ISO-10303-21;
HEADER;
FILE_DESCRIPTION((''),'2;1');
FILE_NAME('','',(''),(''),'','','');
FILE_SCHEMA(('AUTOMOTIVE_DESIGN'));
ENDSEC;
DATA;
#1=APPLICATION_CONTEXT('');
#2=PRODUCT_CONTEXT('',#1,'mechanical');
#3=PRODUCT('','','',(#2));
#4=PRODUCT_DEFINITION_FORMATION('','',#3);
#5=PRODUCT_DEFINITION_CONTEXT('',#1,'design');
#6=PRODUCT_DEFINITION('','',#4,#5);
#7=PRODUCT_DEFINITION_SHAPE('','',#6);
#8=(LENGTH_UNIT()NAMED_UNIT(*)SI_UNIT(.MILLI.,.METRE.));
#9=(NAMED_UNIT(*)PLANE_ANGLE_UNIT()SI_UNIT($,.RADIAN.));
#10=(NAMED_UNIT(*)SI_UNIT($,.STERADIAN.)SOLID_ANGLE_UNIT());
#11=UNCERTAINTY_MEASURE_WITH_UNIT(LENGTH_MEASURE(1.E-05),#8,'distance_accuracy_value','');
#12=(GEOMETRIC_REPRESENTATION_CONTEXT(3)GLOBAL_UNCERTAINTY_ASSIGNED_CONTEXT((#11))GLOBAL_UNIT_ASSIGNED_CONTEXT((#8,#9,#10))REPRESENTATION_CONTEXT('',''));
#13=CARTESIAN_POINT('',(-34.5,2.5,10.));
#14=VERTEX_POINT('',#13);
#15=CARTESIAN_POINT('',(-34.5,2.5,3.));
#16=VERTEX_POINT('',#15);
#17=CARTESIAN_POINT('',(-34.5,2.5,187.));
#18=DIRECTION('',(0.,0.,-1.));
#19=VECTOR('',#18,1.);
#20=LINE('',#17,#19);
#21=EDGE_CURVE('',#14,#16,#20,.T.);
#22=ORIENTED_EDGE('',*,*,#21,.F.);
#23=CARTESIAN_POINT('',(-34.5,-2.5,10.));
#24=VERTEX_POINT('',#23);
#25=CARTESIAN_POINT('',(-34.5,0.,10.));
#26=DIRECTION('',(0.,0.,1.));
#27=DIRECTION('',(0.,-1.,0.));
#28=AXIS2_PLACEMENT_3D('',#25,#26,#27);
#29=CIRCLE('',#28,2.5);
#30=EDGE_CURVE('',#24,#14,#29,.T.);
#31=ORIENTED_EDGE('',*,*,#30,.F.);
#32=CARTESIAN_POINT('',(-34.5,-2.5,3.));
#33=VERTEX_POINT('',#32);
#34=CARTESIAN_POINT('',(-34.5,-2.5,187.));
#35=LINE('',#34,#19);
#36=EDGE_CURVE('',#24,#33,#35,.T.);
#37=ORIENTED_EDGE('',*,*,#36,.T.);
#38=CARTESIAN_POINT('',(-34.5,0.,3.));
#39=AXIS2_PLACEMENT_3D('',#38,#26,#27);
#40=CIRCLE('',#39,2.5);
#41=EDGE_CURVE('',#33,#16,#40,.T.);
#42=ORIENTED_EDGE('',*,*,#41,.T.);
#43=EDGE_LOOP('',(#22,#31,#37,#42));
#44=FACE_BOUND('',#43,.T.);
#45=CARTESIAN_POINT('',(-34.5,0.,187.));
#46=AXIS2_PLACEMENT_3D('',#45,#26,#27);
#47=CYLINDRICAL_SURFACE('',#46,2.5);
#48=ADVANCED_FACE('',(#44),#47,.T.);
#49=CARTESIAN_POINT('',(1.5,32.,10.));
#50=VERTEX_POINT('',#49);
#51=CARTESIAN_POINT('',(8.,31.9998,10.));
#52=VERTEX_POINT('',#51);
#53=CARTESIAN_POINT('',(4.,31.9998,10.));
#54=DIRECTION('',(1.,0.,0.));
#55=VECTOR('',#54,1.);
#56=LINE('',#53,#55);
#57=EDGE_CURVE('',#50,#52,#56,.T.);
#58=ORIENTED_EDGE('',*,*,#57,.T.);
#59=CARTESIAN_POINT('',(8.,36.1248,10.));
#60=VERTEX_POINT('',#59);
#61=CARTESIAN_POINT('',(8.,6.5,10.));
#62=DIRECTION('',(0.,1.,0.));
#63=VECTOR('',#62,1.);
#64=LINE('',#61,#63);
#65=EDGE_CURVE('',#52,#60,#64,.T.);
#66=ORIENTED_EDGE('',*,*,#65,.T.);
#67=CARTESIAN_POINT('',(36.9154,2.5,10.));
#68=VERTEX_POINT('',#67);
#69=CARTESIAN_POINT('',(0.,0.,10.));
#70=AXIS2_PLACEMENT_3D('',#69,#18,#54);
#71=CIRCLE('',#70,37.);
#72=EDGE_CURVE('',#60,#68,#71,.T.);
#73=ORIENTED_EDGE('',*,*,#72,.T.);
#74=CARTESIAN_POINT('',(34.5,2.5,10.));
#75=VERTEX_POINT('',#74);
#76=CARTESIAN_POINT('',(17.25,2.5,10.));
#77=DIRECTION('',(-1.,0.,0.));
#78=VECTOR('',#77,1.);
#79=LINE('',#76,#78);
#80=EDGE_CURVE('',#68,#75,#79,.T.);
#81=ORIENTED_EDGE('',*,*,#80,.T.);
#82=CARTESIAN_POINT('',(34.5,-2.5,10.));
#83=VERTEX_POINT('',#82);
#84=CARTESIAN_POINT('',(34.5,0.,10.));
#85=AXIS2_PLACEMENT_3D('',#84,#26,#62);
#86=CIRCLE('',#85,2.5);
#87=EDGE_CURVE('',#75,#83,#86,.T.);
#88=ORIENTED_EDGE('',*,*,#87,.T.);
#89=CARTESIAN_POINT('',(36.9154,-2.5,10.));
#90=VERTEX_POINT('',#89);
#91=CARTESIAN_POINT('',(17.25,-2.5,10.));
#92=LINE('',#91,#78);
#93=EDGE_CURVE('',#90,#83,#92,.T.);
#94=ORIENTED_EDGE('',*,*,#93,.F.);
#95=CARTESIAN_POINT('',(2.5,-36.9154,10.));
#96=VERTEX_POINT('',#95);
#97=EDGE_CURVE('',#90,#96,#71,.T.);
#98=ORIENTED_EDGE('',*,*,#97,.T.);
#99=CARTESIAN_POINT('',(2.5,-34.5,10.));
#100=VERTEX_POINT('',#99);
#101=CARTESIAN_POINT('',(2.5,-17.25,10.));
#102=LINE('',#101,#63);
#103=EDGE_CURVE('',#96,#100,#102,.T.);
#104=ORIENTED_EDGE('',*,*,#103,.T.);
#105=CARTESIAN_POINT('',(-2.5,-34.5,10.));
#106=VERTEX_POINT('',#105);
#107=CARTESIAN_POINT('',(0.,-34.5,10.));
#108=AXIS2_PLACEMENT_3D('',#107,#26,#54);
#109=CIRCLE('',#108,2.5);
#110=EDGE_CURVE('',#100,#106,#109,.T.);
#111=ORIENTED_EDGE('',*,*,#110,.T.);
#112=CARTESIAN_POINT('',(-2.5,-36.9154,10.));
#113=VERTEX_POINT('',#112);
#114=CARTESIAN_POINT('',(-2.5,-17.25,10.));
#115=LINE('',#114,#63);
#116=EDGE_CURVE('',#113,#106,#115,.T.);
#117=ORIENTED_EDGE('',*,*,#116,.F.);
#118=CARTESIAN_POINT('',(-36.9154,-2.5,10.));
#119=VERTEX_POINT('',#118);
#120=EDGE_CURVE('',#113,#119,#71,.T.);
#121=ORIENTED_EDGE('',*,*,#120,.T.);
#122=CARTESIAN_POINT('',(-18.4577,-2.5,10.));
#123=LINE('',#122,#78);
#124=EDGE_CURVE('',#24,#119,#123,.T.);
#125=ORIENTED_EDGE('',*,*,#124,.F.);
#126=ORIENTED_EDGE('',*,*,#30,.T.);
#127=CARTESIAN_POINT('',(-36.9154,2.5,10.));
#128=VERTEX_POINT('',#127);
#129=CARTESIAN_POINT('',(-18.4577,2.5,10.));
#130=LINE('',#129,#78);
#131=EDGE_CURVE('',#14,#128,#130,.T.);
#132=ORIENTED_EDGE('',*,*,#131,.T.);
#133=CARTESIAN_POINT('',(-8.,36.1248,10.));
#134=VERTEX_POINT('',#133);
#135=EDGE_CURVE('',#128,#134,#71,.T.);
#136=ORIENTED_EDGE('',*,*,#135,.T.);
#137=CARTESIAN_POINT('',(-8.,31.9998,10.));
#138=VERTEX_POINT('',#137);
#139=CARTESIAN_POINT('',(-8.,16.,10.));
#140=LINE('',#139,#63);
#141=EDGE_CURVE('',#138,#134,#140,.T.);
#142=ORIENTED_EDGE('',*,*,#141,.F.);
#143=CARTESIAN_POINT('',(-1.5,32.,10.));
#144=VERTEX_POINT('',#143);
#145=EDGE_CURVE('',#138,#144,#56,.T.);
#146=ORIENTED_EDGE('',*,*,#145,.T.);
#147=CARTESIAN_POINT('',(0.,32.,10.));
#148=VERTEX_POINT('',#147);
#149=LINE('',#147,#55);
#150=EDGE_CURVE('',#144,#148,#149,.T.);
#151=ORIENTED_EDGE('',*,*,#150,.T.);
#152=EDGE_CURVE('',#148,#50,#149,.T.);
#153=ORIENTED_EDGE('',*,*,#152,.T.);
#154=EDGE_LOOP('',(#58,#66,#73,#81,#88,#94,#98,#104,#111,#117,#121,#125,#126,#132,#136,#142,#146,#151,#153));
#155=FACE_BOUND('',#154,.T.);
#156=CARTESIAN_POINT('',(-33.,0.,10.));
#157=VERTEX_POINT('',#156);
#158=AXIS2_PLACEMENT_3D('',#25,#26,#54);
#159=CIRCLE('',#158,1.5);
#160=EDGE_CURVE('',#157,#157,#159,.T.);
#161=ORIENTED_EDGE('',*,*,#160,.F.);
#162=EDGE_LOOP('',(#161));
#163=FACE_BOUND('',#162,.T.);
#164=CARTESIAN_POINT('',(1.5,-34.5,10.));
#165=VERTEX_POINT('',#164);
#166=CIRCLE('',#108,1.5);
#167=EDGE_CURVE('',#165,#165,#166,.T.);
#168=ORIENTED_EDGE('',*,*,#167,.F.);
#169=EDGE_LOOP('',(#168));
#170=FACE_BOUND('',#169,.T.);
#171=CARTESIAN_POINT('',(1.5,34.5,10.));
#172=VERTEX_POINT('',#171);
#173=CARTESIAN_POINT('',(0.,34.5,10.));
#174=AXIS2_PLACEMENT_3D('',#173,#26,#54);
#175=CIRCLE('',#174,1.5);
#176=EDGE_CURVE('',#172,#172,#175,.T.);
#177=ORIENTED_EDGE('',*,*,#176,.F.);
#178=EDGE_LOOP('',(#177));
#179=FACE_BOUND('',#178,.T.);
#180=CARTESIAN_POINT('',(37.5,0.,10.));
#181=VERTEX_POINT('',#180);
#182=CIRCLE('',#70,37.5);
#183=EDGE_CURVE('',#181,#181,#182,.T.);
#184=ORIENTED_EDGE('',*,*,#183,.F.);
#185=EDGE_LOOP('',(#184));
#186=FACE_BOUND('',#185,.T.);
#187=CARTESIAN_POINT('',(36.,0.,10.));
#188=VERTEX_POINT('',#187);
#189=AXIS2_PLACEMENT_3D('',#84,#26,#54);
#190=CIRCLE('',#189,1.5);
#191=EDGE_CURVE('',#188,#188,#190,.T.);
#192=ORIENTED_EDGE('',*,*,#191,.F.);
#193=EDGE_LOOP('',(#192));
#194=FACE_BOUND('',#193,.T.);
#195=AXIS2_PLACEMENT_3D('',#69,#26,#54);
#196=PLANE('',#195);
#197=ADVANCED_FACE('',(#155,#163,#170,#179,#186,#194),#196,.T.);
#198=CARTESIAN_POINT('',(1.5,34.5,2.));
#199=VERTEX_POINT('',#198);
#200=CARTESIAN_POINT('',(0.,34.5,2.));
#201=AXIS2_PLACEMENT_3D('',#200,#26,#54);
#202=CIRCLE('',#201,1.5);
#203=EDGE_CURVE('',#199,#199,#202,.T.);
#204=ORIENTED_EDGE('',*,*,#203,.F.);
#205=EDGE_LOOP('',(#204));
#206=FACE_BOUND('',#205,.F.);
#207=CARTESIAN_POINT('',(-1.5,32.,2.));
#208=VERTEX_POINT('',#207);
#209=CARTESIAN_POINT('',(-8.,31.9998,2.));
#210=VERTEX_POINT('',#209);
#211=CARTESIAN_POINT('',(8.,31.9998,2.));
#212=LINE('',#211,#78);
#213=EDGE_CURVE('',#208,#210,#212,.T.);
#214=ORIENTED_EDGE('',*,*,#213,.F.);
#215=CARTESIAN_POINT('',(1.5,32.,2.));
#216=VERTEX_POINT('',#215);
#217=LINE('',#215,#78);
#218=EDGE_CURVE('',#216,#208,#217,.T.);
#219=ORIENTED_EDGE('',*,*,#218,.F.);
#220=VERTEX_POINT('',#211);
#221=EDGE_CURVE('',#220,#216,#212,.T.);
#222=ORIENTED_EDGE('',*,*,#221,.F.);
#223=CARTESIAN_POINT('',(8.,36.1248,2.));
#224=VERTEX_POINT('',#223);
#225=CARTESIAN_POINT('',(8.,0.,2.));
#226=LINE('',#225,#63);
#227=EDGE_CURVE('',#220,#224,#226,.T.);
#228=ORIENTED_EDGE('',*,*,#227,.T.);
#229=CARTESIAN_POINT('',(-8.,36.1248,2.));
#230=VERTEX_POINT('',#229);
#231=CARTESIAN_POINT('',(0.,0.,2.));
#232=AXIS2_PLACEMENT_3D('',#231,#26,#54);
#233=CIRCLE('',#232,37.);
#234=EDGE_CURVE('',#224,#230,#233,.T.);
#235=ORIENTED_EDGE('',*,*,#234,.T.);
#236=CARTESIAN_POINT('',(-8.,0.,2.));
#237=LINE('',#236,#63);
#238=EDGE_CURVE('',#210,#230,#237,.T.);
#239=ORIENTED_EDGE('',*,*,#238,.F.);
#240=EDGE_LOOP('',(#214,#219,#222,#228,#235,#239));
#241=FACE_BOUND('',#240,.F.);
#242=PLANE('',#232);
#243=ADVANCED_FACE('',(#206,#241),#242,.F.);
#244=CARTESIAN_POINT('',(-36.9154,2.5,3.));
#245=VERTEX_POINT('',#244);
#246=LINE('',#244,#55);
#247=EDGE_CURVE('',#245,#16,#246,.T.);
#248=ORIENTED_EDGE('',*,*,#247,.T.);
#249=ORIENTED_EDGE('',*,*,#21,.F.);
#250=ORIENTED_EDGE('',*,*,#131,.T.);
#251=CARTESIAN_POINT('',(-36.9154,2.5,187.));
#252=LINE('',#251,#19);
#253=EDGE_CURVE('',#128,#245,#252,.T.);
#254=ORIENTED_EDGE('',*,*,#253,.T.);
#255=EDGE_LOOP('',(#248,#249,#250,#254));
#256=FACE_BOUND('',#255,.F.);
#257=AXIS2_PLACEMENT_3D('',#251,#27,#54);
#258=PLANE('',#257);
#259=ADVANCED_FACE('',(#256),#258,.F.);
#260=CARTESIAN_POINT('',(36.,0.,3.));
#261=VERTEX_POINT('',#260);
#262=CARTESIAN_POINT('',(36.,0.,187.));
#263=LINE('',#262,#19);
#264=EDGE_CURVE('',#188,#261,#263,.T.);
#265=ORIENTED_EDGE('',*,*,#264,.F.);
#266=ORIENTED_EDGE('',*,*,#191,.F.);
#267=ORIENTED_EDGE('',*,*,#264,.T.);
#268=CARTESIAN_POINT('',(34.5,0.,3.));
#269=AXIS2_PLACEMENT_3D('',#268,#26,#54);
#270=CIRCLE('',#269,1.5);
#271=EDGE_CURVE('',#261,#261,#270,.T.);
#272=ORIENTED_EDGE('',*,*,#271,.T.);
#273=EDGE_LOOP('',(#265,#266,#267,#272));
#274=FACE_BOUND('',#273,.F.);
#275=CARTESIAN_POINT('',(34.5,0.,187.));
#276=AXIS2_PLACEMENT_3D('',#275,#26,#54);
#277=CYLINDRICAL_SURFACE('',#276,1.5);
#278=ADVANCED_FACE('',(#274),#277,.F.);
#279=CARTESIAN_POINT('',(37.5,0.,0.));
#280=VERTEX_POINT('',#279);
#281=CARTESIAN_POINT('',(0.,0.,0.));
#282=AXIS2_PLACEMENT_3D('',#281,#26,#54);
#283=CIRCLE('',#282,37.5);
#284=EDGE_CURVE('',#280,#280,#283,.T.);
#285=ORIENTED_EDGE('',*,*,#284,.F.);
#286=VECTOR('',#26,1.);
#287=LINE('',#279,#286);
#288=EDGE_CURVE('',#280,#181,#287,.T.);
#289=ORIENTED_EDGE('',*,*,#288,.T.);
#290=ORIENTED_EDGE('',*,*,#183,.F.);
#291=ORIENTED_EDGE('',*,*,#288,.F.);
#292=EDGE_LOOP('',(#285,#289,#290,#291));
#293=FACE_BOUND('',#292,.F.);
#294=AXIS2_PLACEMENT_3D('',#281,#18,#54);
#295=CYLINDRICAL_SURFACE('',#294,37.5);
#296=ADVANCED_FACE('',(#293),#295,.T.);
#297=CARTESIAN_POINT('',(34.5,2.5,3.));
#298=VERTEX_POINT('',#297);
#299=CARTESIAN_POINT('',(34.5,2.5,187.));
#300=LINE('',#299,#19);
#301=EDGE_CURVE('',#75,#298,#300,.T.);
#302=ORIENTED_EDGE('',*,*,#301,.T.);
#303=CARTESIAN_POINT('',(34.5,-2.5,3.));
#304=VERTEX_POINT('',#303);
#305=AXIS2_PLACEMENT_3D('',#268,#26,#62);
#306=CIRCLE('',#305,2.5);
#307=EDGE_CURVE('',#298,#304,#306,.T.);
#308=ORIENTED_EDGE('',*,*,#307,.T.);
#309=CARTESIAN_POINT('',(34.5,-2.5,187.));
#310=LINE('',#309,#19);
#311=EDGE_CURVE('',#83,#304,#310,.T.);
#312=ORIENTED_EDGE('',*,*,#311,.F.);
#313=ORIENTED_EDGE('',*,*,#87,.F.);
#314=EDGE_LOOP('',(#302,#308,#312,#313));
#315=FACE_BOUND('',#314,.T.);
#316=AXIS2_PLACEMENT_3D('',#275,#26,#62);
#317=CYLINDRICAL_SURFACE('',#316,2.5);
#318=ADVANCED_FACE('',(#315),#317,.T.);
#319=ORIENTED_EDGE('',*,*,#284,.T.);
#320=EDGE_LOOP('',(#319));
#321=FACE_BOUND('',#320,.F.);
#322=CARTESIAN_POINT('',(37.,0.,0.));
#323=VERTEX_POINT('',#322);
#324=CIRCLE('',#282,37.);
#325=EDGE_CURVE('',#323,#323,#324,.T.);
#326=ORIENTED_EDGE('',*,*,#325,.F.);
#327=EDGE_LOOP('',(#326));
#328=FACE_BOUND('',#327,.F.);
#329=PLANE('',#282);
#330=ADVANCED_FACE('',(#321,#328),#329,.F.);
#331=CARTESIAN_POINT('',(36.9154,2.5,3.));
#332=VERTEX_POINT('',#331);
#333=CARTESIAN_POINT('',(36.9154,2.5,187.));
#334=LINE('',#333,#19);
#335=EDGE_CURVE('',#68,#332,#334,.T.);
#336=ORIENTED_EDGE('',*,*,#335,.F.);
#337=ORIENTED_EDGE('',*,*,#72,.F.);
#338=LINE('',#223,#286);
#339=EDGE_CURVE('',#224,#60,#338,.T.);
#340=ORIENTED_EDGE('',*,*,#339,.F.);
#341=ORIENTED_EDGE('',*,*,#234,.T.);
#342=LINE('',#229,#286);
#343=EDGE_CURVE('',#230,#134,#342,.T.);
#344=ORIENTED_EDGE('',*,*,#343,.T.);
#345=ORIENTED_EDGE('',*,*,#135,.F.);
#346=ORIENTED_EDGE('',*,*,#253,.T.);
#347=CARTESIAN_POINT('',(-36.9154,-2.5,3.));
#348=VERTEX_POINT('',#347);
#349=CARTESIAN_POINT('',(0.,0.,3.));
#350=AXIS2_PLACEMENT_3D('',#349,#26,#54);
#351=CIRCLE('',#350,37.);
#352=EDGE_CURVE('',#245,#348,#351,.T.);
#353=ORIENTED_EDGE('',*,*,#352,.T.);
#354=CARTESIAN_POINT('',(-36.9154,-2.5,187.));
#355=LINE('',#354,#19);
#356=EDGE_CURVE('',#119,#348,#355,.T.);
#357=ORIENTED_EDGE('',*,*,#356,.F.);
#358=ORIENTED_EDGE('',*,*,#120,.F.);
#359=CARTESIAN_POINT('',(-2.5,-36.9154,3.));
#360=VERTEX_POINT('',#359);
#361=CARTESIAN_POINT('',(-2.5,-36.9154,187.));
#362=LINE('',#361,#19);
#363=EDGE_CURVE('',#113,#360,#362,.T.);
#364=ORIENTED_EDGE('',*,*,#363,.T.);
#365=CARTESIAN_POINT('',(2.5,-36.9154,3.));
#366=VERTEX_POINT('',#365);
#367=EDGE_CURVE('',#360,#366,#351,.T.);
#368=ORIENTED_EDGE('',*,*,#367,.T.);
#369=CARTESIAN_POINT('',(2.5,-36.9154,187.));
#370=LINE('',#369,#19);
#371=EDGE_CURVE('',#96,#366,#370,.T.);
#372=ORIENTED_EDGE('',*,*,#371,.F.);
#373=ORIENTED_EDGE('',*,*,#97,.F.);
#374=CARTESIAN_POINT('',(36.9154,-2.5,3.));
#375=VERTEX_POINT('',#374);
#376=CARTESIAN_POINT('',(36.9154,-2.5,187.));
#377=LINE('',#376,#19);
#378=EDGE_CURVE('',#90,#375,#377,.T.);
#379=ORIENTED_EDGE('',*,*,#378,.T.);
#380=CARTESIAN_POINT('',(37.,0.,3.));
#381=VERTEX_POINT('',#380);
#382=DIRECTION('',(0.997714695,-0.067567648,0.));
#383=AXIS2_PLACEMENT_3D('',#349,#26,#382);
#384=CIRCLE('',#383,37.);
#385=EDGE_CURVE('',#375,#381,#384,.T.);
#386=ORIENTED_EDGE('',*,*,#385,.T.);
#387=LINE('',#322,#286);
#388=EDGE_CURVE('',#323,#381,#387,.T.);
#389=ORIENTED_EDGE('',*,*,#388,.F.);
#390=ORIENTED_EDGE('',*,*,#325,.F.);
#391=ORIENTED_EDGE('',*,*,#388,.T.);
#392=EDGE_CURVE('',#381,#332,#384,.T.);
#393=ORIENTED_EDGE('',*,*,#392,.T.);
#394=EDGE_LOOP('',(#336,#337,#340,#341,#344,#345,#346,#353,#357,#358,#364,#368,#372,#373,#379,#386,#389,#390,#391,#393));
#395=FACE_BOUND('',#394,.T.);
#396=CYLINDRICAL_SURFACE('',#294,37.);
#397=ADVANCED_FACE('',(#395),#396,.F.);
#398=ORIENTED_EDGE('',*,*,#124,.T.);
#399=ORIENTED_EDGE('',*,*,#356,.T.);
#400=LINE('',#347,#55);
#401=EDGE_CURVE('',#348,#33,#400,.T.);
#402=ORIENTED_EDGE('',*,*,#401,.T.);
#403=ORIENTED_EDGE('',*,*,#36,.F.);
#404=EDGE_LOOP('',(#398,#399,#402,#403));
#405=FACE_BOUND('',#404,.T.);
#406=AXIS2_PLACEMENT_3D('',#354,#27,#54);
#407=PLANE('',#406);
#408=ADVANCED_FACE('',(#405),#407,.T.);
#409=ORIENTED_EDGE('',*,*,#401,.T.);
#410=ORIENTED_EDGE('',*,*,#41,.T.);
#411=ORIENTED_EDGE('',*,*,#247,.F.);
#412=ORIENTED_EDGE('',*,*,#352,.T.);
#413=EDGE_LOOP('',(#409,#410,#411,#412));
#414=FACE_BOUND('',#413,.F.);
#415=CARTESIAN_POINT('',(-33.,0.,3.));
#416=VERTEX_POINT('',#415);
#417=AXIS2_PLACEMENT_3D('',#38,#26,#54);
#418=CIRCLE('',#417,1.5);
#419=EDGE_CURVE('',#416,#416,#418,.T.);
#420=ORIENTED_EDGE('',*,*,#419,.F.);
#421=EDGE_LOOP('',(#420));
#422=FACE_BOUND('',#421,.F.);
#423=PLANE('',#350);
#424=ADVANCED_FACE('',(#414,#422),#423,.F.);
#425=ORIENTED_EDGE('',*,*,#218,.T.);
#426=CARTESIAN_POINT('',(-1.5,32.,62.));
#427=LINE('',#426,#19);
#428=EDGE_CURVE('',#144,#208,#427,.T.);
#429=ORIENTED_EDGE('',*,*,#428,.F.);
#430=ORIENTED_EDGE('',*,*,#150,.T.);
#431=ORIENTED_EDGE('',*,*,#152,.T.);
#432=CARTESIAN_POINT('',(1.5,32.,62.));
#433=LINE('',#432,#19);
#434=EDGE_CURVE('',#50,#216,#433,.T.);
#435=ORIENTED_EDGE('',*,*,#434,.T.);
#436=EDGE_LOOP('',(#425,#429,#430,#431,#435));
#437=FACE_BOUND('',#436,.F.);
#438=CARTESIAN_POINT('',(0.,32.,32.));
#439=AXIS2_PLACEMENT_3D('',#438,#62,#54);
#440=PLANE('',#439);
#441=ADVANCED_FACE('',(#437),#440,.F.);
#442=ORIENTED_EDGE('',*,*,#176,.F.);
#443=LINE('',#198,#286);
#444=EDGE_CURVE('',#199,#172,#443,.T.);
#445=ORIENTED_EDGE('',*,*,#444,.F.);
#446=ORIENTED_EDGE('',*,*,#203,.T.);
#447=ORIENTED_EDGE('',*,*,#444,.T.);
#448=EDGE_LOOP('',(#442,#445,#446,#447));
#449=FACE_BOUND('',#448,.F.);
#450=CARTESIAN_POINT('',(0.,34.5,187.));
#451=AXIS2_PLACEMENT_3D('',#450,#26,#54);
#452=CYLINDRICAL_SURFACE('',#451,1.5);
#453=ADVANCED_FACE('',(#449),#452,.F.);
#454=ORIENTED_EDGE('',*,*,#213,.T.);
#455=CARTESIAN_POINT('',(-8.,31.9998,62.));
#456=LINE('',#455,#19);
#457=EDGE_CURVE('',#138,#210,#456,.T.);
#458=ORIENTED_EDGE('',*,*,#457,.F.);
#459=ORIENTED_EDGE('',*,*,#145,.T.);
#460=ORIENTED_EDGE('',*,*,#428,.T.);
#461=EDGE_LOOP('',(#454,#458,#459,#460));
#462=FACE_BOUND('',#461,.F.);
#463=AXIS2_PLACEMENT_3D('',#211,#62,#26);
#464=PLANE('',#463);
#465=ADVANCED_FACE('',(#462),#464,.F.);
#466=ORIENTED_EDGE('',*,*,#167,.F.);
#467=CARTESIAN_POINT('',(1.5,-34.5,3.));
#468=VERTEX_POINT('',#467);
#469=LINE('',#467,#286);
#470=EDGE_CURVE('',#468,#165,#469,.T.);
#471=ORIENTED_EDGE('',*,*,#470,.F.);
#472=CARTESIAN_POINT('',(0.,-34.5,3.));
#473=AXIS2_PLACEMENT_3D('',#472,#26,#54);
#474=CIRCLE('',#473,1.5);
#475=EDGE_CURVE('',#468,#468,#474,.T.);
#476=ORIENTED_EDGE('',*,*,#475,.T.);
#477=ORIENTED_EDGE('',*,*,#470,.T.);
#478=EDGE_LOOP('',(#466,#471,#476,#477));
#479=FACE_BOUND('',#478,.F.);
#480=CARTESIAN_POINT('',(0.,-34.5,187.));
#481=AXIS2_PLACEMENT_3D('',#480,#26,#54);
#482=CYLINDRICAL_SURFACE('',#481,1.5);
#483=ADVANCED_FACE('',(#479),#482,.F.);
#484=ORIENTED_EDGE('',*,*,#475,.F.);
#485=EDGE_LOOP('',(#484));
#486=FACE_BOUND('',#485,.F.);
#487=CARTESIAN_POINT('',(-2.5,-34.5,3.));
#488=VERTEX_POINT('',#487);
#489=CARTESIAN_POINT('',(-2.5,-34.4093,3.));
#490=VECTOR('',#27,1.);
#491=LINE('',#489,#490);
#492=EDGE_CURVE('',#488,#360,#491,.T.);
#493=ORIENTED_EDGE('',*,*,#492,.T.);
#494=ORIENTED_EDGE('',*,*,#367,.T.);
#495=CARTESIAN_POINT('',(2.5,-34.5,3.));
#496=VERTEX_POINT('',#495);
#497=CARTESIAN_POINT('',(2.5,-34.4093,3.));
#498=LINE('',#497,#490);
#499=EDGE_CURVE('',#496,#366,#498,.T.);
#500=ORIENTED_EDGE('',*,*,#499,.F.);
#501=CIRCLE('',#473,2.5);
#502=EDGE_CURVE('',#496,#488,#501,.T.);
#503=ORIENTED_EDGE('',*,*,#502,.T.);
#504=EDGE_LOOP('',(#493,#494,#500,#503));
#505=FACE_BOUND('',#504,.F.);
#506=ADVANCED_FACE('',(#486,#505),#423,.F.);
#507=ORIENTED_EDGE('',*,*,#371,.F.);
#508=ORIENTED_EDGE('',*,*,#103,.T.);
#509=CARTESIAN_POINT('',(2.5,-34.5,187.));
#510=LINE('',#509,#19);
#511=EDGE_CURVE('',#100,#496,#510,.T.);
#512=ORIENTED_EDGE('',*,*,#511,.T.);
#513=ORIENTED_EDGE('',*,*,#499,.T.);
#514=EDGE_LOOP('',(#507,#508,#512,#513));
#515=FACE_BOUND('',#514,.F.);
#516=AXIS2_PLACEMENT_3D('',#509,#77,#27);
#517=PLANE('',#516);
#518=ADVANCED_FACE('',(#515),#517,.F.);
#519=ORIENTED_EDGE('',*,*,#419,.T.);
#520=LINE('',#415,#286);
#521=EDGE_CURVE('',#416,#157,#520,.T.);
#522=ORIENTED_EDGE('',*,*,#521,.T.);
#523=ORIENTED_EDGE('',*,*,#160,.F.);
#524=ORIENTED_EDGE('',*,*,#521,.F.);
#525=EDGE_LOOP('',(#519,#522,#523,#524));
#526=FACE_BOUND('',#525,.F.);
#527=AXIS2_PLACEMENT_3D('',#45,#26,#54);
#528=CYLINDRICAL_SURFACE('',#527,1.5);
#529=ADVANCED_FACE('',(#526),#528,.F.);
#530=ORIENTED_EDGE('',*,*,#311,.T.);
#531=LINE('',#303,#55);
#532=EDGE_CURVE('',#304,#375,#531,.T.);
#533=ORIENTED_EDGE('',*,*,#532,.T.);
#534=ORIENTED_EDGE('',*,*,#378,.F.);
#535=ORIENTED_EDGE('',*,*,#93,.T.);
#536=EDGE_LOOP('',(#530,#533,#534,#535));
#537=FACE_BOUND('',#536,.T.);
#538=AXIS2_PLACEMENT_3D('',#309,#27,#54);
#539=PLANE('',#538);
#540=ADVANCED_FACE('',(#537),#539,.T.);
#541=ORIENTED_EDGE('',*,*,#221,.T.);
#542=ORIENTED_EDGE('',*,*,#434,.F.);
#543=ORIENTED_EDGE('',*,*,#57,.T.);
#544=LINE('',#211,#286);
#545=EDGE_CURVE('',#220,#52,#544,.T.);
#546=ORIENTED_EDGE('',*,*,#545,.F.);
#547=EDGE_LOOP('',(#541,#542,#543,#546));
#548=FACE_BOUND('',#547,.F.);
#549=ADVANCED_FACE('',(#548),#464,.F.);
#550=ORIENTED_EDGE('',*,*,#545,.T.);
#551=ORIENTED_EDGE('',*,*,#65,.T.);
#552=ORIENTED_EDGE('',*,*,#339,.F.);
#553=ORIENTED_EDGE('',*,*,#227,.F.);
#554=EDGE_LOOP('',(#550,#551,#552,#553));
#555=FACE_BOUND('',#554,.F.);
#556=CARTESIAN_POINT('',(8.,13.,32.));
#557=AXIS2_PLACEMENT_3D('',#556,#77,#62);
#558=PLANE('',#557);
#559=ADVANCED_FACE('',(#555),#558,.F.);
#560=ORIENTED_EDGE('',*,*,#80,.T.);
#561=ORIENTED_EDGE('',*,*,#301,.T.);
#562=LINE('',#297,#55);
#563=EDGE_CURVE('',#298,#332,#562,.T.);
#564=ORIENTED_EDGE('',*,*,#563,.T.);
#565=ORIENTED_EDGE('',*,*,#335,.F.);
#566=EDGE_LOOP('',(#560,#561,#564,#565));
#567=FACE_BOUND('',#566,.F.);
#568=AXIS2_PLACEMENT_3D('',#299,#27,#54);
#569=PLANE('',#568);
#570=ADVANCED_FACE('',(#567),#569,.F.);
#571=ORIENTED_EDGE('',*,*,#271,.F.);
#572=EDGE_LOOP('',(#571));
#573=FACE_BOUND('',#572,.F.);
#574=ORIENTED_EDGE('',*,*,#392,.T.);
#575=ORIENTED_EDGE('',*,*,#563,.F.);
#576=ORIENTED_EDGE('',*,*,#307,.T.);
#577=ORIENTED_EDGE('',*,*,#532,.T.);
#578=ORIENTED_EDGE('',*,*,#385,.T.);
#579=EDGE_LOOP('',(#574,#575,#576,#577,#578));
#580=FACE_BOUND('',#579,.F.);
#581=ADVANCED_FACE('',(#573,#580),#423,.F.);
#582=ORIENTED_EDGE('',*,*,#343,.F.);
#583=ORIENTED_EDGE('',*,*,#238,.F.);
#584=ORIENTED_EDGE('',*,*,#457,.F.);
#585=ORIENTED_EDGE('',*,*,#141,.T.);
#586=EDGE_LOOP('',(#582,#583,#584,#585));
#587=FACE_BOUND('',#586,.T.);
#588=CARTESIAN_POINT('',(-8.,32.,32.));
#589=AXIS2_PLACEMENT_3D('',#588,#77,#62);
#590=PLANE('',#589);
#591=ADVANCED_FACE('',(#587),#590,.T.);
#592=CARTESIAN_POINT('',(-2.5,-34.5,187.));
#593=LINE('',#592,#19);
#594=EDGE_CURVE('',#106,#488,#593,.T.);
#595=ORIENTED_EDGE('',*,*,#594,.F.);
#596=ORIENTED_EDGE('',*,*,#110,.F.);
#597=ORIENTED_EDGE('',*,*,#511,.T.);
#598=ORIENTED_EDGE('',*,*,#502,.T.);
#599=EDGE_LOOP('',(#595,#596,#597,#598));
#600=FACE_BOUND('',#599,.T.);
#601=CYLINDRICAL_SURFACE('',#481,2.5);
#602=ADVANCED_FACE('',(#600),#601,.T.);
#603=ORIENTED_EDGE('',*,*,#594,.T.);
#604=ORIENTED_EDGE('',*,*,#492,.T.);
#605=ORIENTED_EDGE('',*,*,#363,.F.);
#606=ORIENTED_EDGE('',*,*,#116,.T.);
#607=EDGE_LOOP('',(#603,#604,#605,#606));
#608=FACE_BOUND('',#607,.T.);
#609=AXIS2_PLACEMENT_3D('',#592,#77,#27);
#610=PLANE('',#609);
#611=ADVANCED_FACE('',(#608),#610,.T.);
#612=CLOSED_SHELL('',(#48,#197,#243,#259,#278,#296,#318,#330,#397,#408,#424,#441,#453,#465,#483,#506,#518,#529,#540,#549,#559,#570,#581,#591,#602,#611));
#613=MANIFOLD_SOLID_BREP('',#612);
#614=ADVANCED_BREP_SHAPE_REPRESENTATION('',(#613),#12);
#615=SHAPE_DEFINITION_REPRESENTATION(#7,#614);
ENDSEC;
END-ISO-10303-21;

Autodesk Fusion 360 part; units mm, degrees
sketch "Esboço2" plane through (0, 0, 0) normal (0, 0, 1) x (1, 0, 0)
  circle A0 centre (0, 0) radius 37.5
  circle A1 centre (0, 0) radius 37
  dimension "d6" = 75
  dimension "d7" = 74
extrude "Extrusão2" add sketch "Esboço2" along normal blind 190
ref_plane "Plano de trabalho9" through (0, 0, 187) normal (0, 0, 1) x (1, 0, 0)
sketch "Esboço10" plane through (0, 0, 187) normal (0, 0, 1) x (1, 0, 0)
  circle A0 centre (0, 0) radius 34.5 construction
  line L0 (0, 0) -> (-68.1762, 0) construction
  line L1 (0, 0) -> (60, 0) construction
  line L2 (0, 0) -> (0, 45) construction
  line L3 (0, 0) -> (0, -43.1659) construction
  circle A1 centre (34.5, 0) radius 1.5
  line L4 (3, -43) -> (3, -42)
  circle A2 centre (0, 34.5) radius 1.5
  circle A3 centre (-34.5, 0) radius 1.5
  circle A4 centre (0, -34.5) radius 1.5
  arc A5 (34.5, 2.5) -> (34.5, -2.5) centre (34.5, 0) ccw
  arc A6 (-2.5, 34.5) -> (2.5, 34.5) centre (0, 34.5) ccw
  arc A7 (-34.5, -2.5) -> (-34.5, 2.5) centre (-34.5, 0) ccw
  arc A8 (2.5, -34.5) -> (-2.5, -34.5) centre (0, -34.5) ccw
  circle A9 centre (0, 0) radius 37
  line L5 (-36.9154, 2.5) -> (-34.4093, 2.5)
  line L6 (-36.9154, -2.5) -> (-34.4093, -2.5)
  line L7 (34.5, 2.5) -> (36.9154, 2.5)
  line L8 (34.5, -2.5) -> (36.9154, -2.5)
  line L9 (2.5, 36.9154) -> (2.5, 34.4093)
  line L10 (-2.5, 36.9154) -> (-2.5, 34.4093)
  line L11 (-2.5, -34.4093) -> (-2.5, -36.9154)
  line L12 (2.5, -34.4093) -> (2.5, -36.9154)
  dimension "d82" = 69
  dimension "d83" = 3
  dimension "d84" = 2.5
  dimension "d85" = 2.5
  dimension "d87" = 360
  dimension "d89" = 360
  dimension "d90" = 2.5
extrude "Extrusão12" add sketch "Esboço10" against normal blind 184 contours A5 A9 L7 L8 | A6 A9 L9 L10 | A8 A9 L11 L12 | A7 A9 L5 L6
thread "Rosca3"
ref_plane "Plano de trabalho3" through (0, 0, 32) normal (0, 0, 1) x (1, 0, 0)
sketch "Esboço3" plane through (0, 0, 32) normal (0, 0, 1) x (1, 0, 0)
  line L0 (0, 0) -> (0, 37) construction
  line L1 (34.2491, 14) -> (-34.2491, 14)
  circle A0 centre (0, 0) radius 37
  line L2 (31.1288, 20) -> (-31.1288, 20)
  line L3 (32.8634, 17) -> (-32.8634, 17)
  circle A1 centre (0, 0) radius 50
  circle A2 centre (0, 0) radius 37.5
  line L4 (-8, 0) -> (8, 0)
  line L5 (8, 0) -> (8, 36.1248)
  line L6 (-8, 0) -> (-8, 36.1248)
  circle A3 centre (0, 34.5) radius 1.5
  line L7 (1.5, 32.5) -> (1.5, 0)
  arc A4 (-2.5, 34.5) -> (2.5, 34.5) centre (0, 34.5) ccw
  line L8 (-1.5, 32.5) -> (-1.5, 0)
  line L9 (27.8634, 24.3441) -> (27.8634, 11)
  line L10 (27.8634, 11) -> (35.327, 11)
  line L11 (-27.8634, 11) -> (-35.327, 11)
  line L12 (-27.8634, 24.3441) -> (-27.8634, 11)
  line L13 (-30.4631, 21) -> (30.4631, 21)
  line L14 (-34.641, 13) -> (34.641, 13)
  line L15 (0, 32) -> (8, 32)
  line L16 (0, 32) -> (-8, 32)
  dimension "d12" = 6
  dimension "d15" = 3
  dimension "d17" = 75
  dimension "d18" = 100
  dimension "d41" = 14
  dimension "d51" = 8
  dimension "d52" = 16
  dimension "d99" = 3
  dimension "d100" = 2.5
  dimension "d115" = 6.5
  dimension "d123" = 5
  dimension "d124" = 6
  dimension "d143" = 4
  dimension "d144" = 4
extrude "Extrusão21" add sketch "Esboço3" along normal blind 6 and the other way blind 6 contours L1 A0 L9 L14 | L1 A0 L3 L9 | A0 L9 L10 L14 | A0 L2 L3 L9 | A0 L2 L9 L13 | A0 L9 L13 | A0 L11 L12 L14 | L1 A0 L12 L14 | L1 A0 L3 L12 | A0 L2 L3 L12 | A0 L12 L13 | A0 L2 L12 L13
sketch "Esboço18" plane through (-27.8634, 0, 0) normal (1, 0, 0) x (0, 1, 0)
  line L0 (24.3441, 26) -> (24.3441, 38)
  line L1 (24.3441, 38) -> (11, 38)
  line L2 (11, 38) -> (11, 26)
  line L3 (11, 26) -> (24.3441, 26)
  circle A0 centre (17, 32) radius 4
  point P0 (11, 32)
  dimension "d166" = 8
  dimension "d167" = 6
  dimension "d168" = 6
ref_plane "Plano de trabalho11" through (0, 0, 0) normal (1, 0, 0) x (0, 1, 0)
extrude "Extrusão23" cut sketch "Esboço18" against normal blind 15 contours A0
extrude "Extrusão7" add sketch "Esboço3" along normal blind 30 and the other way blind 30 contours L1 L5 L7 L14 | L1 L3 L5 L7 | L4 L5 L7 L14 | L2 L3 L5 L7 | L1 L6 L8 L14 | L1 L3 L6 L8 | L2 L5 L7 L13 | L2 L3 L6 L8 | L4 L6 L8 L14 | L5 L7 L13 L15 | A0 L5 L6 L7 A4 L8 L15 L16 | L2 L6 L8 L13 | L6 L8 L13 L16 | L7 A4 L15 | A4 L8 L16
sketch "Esboço19" plane through (27.8634, 0, 0) normal (-1, 0, 0) x (0, -1, 0)
  line L0 (-11, 26) -> (-11, 38)
  line L1 (-11, 38) -> (-24.3441, 38)
  line L2 (-24.3441, 38) -> (-24.3441, 26)
  line L3 (-24.3441, 26) -> (-11, 26)
extrude "Extrusão24" cut sketch "Esboço18" along normal blind 80 contours A0
sketch "Esboço11" plane through (8, 0, 0) normal (1, 0, 0) x (0, 1, 0)
  line L0 (0, 2) -> (36.1248, 2)
  line L1 (36.1248, 2) -> (36.1248, 62)
  line L2 (36.1248, 62) -> (0, 62)
  line L3 (0, 62) -> (0, 2)
  circle A0 centre (17, 32) radius 3
  circle A1 centre (17, 32) radius 9.5
  circle A2 centre (17, 32) radius 12.5
  line L4 (36.1248, 32) -> (36.1248, -5) construction
  line L5 (0, 32) -> (36.1248, 32)
  line L6 (30.1248, 2) -> (8.3278, 22.9976)
  line L7 (30.1248, 62) -> (8.3278, 41.0024)
  line L8 (30.1248, 2) -> (31.9998, 2)
  line L9 (31.9998, 2) -> (31.9998, 32)
  line L10 (30.1248, 62) -> (31.9998, 62)
  line L11 (31.9998, 62) -> (31.9998, 32)
  circle A3 centre (17, 32) radius 4
  point P0 (14, 32)
  point P1 (20, 32)
  dimension "d106" = 6
  dimension "d107" = 19
  dimension "d109" = 25
  dimension "d110" = 6
  dimension "d147" = 1.875
extrude "Extrusão13" cut sketch "Esboço11" against normal blind 16 contours L0 L3 A2 L5 L6 | L0 A2 L5 L6 L8 L9 | L2 L3 A2 L5 L7 | A1 A2 L5 | A1 A2 L5 | L2 A2 L5 L7 L10 L11 | A1 L5 A3 | A1 L5 A3 | A0 L5 A3 | A0 L5 A3 | A0 L5 | A0 L5
ref_plane "Plano de trabalho4" through (0, 0, 150) normal (0, 0, 1) x (1, 0, 0)
sketch "Esboço4" plane through (0, 0, 150) normal (0, 0, 1) x (1, 0, 0)
  circle A0 centre (0, 0) radius 37
  circle A1 centre (0, 0) radius 50
  circle A2 centre (0, 0) radius 37.5
  line L0 (-20, -31.1288) -> (-20, 31.1288)
  line L1 (-17, -32.8634) -> (-17, 32.8634)
  line L2 (-14, -34.2491) -> (-14, 34.2491)
  line L3 (0, 8) -> (0, -8)
  line L4 (0, 8) -> (-36.1248, 8)
  line L5 (0, -8) -> (-36.1248, -8)
  line L6 (0, 0) -> (-37, 0) construction
  circle A3 centre (-34.5, 0) radius 1.5
  line L7 (0, 1.5) -> (-32.5, 1.5)
  arc A4 (-34.5, -2.5) -> (-34.5, 2.5) centre (-34.5, 0) ccw
  line L8 (0, -1.5) -> (-32.5, -1.5)
  line L9 (-24.3441, -27.8634) -> (-11, -27.8634)
  line L10 (-11, -27.8634) -> (-11, -35.327)
  line L11 (-24.3441, 27.8634) -> (-11, 27.8634)
  line L12 (-11, 27.8634) -> (-11, 35.327)
  line L13 (-13, 34.641) -> (-13, -34.641)
  line L14 (-21, 30.4631) -> (-21, -30.4631)
  line L15 (-32, 0) -> (-32, 8)
  line L16 (-32, 0) -> (-32, -8)
  dimension "d28" = 75
  dimension "d29" = 100
  dimension "d38" = 14
  dimension "d39" = 6
  dimension "d40" = 3
  dimension "d43" = 16
  dimension "d44" = 8
  dimension "d101" = 3
  dimension "d102" = 2.5
  dimension "d116" = 6.5
  dimension "d135" = 6
  dimension "d136" = 5
  dimension "d145" = 4
  dimension "d146" = 4
extrude "Extrusão25" add sketch "Esboço4" along normal blind 6 and the other way blind 6 contours A0 L11 L12 L13 | A0 L9 L10 L13 | A0 L2 L11 L13 | A0 L2 L9 L13 | A0 L1 L2 L11 | A0 L1 L2 L9 | A0 L0 L1 L11 | A0 L0 L1 L9 | A0 L0 L11 L14 | A0 L0 L9 L14 | A0 L11 L14 | A0 L9 L14
sketch "Esboço20" plane through (0, 27.8634, 0) normal (0, -1, 0) x (1, 0, 0)
  line L0 (-11, 144) -> (-11, 156)
  line L1 (-11, 156) -> (-24.3441, 156)
  line L2 (-24.3441, 156) -> (-24.3441, 144)
  line L3 (-24.3441, 144) -> (-11, 144)
  circle A0 centre (-17, 150) radius 4
  dimension "d179" = 8
  dimension "d180" = 6
  dimension "d182" = 6
extrude "Extrusão26" cut sketch "Esboço20" against normal blind 15 contours A0
sketch "Esboço21" plane through (0, -27.8634, 0) normal (0, 1, 0) x (-1, 0, 0)
  line L0 (24.3441, 144) -> (24.3441, 156)
  line L1 (24.3441, 156) -> (11, 156)
  line L2 (11, 156) -> (11, 144)
  line L3 (11, 144) -> (24.3441, 144)
  circle A0 centre (17, 150) radius 4
  dimension "d185" = 8
  dimension "d186" = 6
  dimension "d187" = 6
extrude "Extrusão27" cut sketch "Esboço21" against normal blind 15 contours A0
extrude "Extrusão6" add sketch "Esboço4" along normal blind 30 and the other way blind 30 contours L2 L4 L7 L13 | L3 L4 L7 L13 | L3 L5 L8 L13 | L2 L5 L8 L13 | L1 L2 L4 L7 | L1 L2 L5 L8 | L0 L1 L4 L7 | L0 L1 L5 L8 | L0 L4 L7 L14 | L0 L5 L8 L14 | A0 L4 L5 L7 A4 L8 L15 L16 | L4 L7 L14 L15 | L5 L8 L14 L16 | L7 A4 L15 | A4 L8 L16
sketch "Esboço13" plane through (0, -8, 0) normal (0, -1, 0) x (1, 0, 0)
  line L0 (0, 120) -> (0, 180)
  line L1 (0, 180) -> (-36.1248, 180)
  line L2 (-36.1248, 180) -> (-36.1248, 120)
  line L3 (-36.1248, 120) -> (0, 120)
  circle A0 centre (-17, 150) radius 3
  circle A1 centre (-17, 150) radius 9.5
  circle A2 centre (-17, 150) radius 12.5
  line L4 (-36.1248, 150) -> (-36.1248, 198.4836) construction
  line L5 (-30.1248, 180) -> (-6.6704, 157.4058)
  line L6 (0, 150) -> (-36.1248, 150)
  line L7 (-30.1248, 120) -> (-6.6704, 142.5942)
  line L8 (-30.1248, 180) -> (-31.9998, 180)
  line L9 (-31.9998, 180) -> (-31.9998, 150)
  line L10 (-30.1248, 120) -> (-31.9998, 120)
  line L11 (-31.9998, 120) -> (-31.9998, 150)
  point P0 (-14, 150)
  point P1 (-20, 150)
  dimension "d117" = 6
  dimension "d118" = 19
  dimension "d119" = 25
  dimension "d120" = 6
  dimension "d148" = 1.875
extrude "Extrusão14" cut sketch "Esboço13" against normal blind 16 contours L0 L3 A2 L6 L7 | L0 L1 A2 L5 L6 | L3 A2 L6 L7 L10 L11 | A1 A2 L6 | A1 A2 L6 | L1 A2 L5 L6 L8 L9 | A0 A1 L6 | A0 A1 L6 | A0 L6 | A0 L6
ref_plane "Plano de trabalho5" through (0, 0, 0) normal (1, 0, 0) x (0, 1, 0)
ref_plane "Plano de trabalho6" through (0, 0, 0) normal (0, 1, 0) x (0, 0, 1)
ref_plane "Plano de trabalho7" through (0, 0, 134.3) normal (0, 0, 1) x (1, 0, 0)
sketch "Esboço8" plane through (0, 0, 134.3) normal (0, 0, 1) x (1, 0, 0)
  line L0 (46.3444, 0) -> (0, 0) construction
  line L1 (8, 36.1248) -> (8, -36.1248)
  line L2 (-8, -36.1248) -> (-8, 36.1248)
  circle A0 centre (0, 0) radius 37
  line L3 (0, 0) -> (0, 37) construction
  circle A1 centre (0, 34.5) radius 1.5
  circle A2 centre (0, -34.5) radius 1.5
  dimension "d72" = 8
  dimension "d73" = 8
  dimension "d95" = 2.5
  dimension "d96" = 3
extrude "Extrusão10" add sketch "Esboço8" along normal blind 2 contours L1 L2 A0
ref_plane "Plano de trabalho8" through (0, 0, 45.7) normal (0, 0, 1) x (1, 0, 0)
sketch "Esboço9" plane through (0, 0, 45.7) normal (0, 0, 1) x (1, 0, 0)
  line L0 (0, 0) -> (-37, 0) construction
  line L1 (-36.1248, 8) -> (36.1248, 8)
  line L2 (-36.1248, -8) -> (36.1248, -8)
  circle A0 centre (0, 0) radius 37
  circle A1 centre (-34.5, 0) radius 1.5
  line L3 (0, 0) -> (0, 43.2459) construction
  circle A2 centre (34.5, 0) radius 1.5
  dimension "d77" = 8
  dimension "d78" = 8
  dimension "d97" = 3
  dimension "d98" = 2.5
extrude "Extrusão11" add sketch "Esboço9" along normal blind 2 contours L1 L2 A0
ref_plane "Plano de trabalho10" through (8, 18.0624, 32) normal (1, 0, 0) x (0, 1, 0)
sketch "Esboço16" plane through (-31.9998, 0, 0) normal (1, 0, 0) x (0, 1, 0)
  line L0 (1.5, 180) -> (1.5, 120)
  line L1 (1.5, 120) -> (8, 120)
  line L2 (8, 120) -> (8, 180)
  line L3 (8, 180) -> (1.5, 180)
  line L4 (4.75, 180) -> (4.75, 120) construction
  circle A0 centre (4.75, 170) radius 1.5
  circle A1 centre (4.75, 130) radius 1.5
  line L5 (8, 150) -> (-12.335, 150) construction
  line L6 (0, 2.5) -> (0, 20)
  circle A2 centre (-4.75, 170) radius 1.5
  circle A3 centre (-4.75, 130) radius 1.5
  dimension "d149" = 3
  dimension "d150" = 3
  dimension "d151" = 40
  dimension "d152" = 20
extrude "Extrusão19" cut sketch "Esboço16" against normal blind 10 contours A0 | A1 | A2 | A3
sketch "Esboço17" plane through (0, 31.9998, 0) normal (0, -1, 0) x (1, 0, 0)
  line L0 (1.5, 62) -> (1.5, 2)
  line L1 (1.5, 2) -> (8, 2)
  line L2 (8, 2) -> (8, 62)
  line L3 (8, 62) -> (1.5, 62)
  line L4 (4.75, 2) -> (4.75, 62) construction
  line L5 (8, 32) -> (-12, 32) construction
  circle A0 centre (4.75, 52) radius 1.5
  circle A1 centre (4.75, 12) radius 1.5
  line L6 (0, 1.75) -> (0, 22.5)
  circle A2 centre (-4.75, 12) radius 1.5
  circle A3 centre (-4.75, 52) radius 1.5
  dimension "d155" = 3
  dimension "d156" = 3
  dimension "d157" = 40
  dimension "d158" = 20
extrude "Extrusão20" cut sketch "Esboço17" against normal blind 10 contours A0 | A1 | A2 | A3
thread "Rosca4"
thread "Rosca5"
sketch "Esboço22" plane through (0, 0, 136.3) normal (0, 0, 1) x (-1, 0, 0)
  line L0 (2.5, 36.9154) -> (2.5, 34.5)
  arc A0 (-2.5, 34.5) -> (2.5, 34.5) centre (0, 34.5) ccw
  line L1 (-2.5, 34.5) -> (-2.5, 36.9154)
  arc A1 (-2.5, 36.9154) -> (-8, 36.1248) centre (0, 0) ccw
  line L2 (-8, 36.1248) -> (-8, -36.1248)
  arc A2 (-8, -36.1248) -> (-2.5, -36.9154) centre (0, 0) ccw
  line L3 (-2.5, -36.9154) -> (-2.5, -34.5)
  arc A3 (2.5, -34.5) -> (-2.5, -34.5) centre (0, -34.5) ccw
  line L4 (2.5, -34.5) -> (2.5, -36.9154)
  arc A4 (2.5, -36.9154) -> (8, -36.1248) centre (0, 0) ccw
  line L5 (8, -36.1248) -> (8, 36.1248)
  arc A5 (8, 36.1248) -> (2.5, 36.9154) centre (0, 0) ccw
  line L6 (0, 0) -> (-21, 0) construction
  line L7 (0, 0) -> (0, -18) construction
  line L8 (2, -14.5) -> (-2, -14.5)
  arc A6 (-2, -14.5) -> (-2, -21.5) centre (-2, -18) ccw
  line L9 (-2, -21.5) -> (2, -21.5)
  arc A7 (2, -21.5) -> (2, -14.5) centre (2, -18) ccw
  line L10 (2, -18) -> (-2, -18) construction
  arc A8 (-2, 21.5) -> (-2, 14.5) centre (-2, 18) ccw
  line L11 (2, 14.5) -> (-2, 14.5)
  arc A9 (2, 14.5) -> (2, 21.5) centre (2, 18) ccw
  line L12 (-2, 21.5) -> (2, 21.5)
  circle A10 centre (0, 9.5) radius 1.5
  line L13 (2, 18) -> (-2, 18) construction
  circle A11 centre (0, 26.5) radius 1.5
  circle A12 centre (0, -9.5) radius 1.5
  circle A13 centre (0, -26.5) radius 1.5
  point P0 (0, -18)
  dimension "d191" = 18
  dimension "d195" = 2
  dimension "d196" = 3.5
  dimension "d204" = 3
  dimension "d205" = 8.5
extrude "Extrusão28" cut sketch "Esboço22" against normal blind 5 contours L8 A6 L9 A7 | A8 L11 A9 L12 | A10 | A11 | A12 | A13
sketch "Esboço23" plane through (0, 0, 45.7) normal (0, 0, -1) x (1, 0, 0)
  line L0 (36.9154, -2.5) -> (34.5, -2.5)
  arc A0 (34.5, 2.5) -> (34.5, -2.5) centre (34.5, 0) ccw
  line L1 (34.5, 2.5) -> (36.9154, 2.5)
  arc A1 (36.9154, 2.5) -> (36.1248, 8) centre (0, 0) ccw
  line L2 (36.1248, 8) -> (-36.1248, 8)
  arc A2 (-36.1248, 8) -> (-36.9154, 2.5) centre (0, 0) ccw
  line L3 (-36.9154, 2.5) -> (-34.5, 2.5)
  arc A3 (-34.5, -2.5) -> (-34.5, 2.5) centre (-34.5, 0) ccw
  line L4 (-34.5, -2.5) -> (-36.9154, -2.5)
  arc A4 (-36.9154, -2.5) -> (-36.1248, -8) centre (0, 0) ccw
  line L5 (-36.1248, -8) -> (36.1248, -8)
  arc A5 (36.1248, -8) -> (36.9154, -2.5) centre (0, 0) ccw
  line L6 (0, 0) -> (0, -19) construction
  line L7 (0, 0) -> (18, 0)
  line L8 (14.5, 2.5) -> (14.5, -2.5)
  arc A6 (14.5, -2.5) -> (21.5, -2.5) centre (18, -2.5) ccw
  line L9 (21.5, -2.5) -> (21.5, 2.5)
  arc A7 (21.5, 2.5) -> (14.5, 2.5) centre (18, 2.5) ccw
  line L10 (18, 2.5) -> (18, -2.5) construction
  line L11 (-14.5, 2.5) -> (-14.5, -2.5)
  arc A8 (-14.5, 2.5) -> (-21.5, 2.5) centre (-18, 2.5) ccw
  line L12 (-21.5, -2.5) -> (-21.5, 2.5)
  arc A9 (-21.5, -2.5) -> (-14.5, -2.5) centre (-18, -2.5) ccw
  circle A10 centre (9.5, 0) radius 1.5
  circle A11 centre (26.5, 0) radius 1.5
  circle A12 centre (-9.5, 0) radius 1.5
  circle A13 centre (-26.5, 0) radius 1.5
  point P0 (18, 0)
  dimension "d199" = 3.5
  dimension "d200" = 5
  dimension "d201" = 18
  dimension "d206" = 3
  dimension "d207" = 8.5
extrude "Extrusão29" cut sketch "Esboço23" against normal blind 10 contours L7 A10 | L8 A6 L9 A7 | L7 A10 | L11 A8 L12 A9 | A11 | A12 | A13
ref_plane "Plano de trabalho12" through (0, 0, 106.3) normal (0, 0, 1) x (1, 0, 0)
sketch "Esboço24" plane through (0, 0, 106.3) normal (0, 0, 1) x (1, 0, 0)
  line L0 (0, 0) -> (28.1868, 0) construction
  line L1 (16, 0) -> (16, 33.3617)
  circle A0 centre (0, 0) radius 37
  line L2 (16, 0) -> (16, -33.3617)
  line L3 (0, 0) -> (0, 19.3) construction
  line L4 (-16, 0) -> (-16, 33.3617)
  line L5 (-16, 0) -> (-16, -33.3617)
  line L6 (-2, 6.8) -> (2, 6.8)
  arc A1 (2, 6.8) -> (2, 31.8) centre (2, 19.3) ccw
  line L7 (2, 31.8) -> (-2, 31.8)
  arc A2 (-2, 31.8) -> (-2, 6.8) centre (-2, 19.3) ccw
  line L8 (-2, 19.3) -> (2, 19.3) construction
  arc A3 (2, -31.8) -> (2, -6.8) centre (2, -19.3) ccw
  arc A4 (-2, -6.8) -> (-2, -31.8) centre (-2, -19.3) ccw
  line L9 (-2, -6.8) -> (2, -6.8)
  line L10 (2, -31.8) -> (-2, -31.8)
  circle A5 centre (0, 34.5) radius 1.5
  circle A6 centre (0, -34.5) radius 1.5
  point P0 (0, 19.3)
  dimension "d209" = 16
  dimension "d210" = 12.5
  dimension "d211" = 4
  dimension "d212" = 19.3
  dimension "d215" = 3
  dimension "d216" = 34.5
ref_plane "Plano de trabalho13" through (0, 0, 55.7) normal (0, 0, -1) x (-1, 0, 0)
ref_plane "Plano de trabalho14" through (0, 0, 60) normal (0, 0, 1) x (1, 0, 0)
sketch "Esboço25" plane through (0, 0, 55.7) normal (0, 0, -1) x (1, 0, 0)
  line L0 (-33.3617, 16) -> (33.3617, 16)
  circle A0 centre (0, 0) radius 37
  line L1 (0, 0) -> (-19.3, 0) construction
  line L2 (-33.3617, -16) -> (33.3617, -16)
  line L3 (-6.8, -2) -> (-6.8, 2)
  arc A1 (-6.8, 2) -> (-31.8, 2) centre (-19.3, 2) ccw
  line L4 (-31.8, 2) -> (-31.8, -2)
  arc A2 (-31.8, -2) -> (-6.8, -2) centre (-19.3, -2) ccw
  line L5 (-19.3, -2) -> (-19.3, 2) construction
  circle A3 centre (-34.5, 0) radius 1.5
  line L6 (0, 0) -> (0, -12) construction
  arc A4 (31.8, 2) -> (6.8, 2) centre (19.3, 2) ccw
  line L7 (6.8, -2) -> (6.8, 2)
  arc A5 (6.8, -2) -> (31.8, -2) centre (19.3, -2) ccw
  circle A6 centre (34.5, 0) radius 1.5
  line L8 (31.8, 2) -> (31.8, -2)
  point P0 (-19.3, 0)
  dimension "d219" = 16
  dimension "d220" = 12.5
  dimension "d221" = 4
  dimension "d222" = 19.3
  dimension "d224" = 34.5
  dimension "d225" = 3
ref_plane "Plano de trabalho15" through (0, 0, 10) normal (0, 0, 1) x (1, 0, 0)
sketch "Esboço26" plane through (0, 0, 10) normal (0, 0, 1) x (1, 0, 0)
  circle A0 centre (0, 0) radius 49.1687
extrude "Extrusão32" cut sketch "Esboço26" along normal blind 200
